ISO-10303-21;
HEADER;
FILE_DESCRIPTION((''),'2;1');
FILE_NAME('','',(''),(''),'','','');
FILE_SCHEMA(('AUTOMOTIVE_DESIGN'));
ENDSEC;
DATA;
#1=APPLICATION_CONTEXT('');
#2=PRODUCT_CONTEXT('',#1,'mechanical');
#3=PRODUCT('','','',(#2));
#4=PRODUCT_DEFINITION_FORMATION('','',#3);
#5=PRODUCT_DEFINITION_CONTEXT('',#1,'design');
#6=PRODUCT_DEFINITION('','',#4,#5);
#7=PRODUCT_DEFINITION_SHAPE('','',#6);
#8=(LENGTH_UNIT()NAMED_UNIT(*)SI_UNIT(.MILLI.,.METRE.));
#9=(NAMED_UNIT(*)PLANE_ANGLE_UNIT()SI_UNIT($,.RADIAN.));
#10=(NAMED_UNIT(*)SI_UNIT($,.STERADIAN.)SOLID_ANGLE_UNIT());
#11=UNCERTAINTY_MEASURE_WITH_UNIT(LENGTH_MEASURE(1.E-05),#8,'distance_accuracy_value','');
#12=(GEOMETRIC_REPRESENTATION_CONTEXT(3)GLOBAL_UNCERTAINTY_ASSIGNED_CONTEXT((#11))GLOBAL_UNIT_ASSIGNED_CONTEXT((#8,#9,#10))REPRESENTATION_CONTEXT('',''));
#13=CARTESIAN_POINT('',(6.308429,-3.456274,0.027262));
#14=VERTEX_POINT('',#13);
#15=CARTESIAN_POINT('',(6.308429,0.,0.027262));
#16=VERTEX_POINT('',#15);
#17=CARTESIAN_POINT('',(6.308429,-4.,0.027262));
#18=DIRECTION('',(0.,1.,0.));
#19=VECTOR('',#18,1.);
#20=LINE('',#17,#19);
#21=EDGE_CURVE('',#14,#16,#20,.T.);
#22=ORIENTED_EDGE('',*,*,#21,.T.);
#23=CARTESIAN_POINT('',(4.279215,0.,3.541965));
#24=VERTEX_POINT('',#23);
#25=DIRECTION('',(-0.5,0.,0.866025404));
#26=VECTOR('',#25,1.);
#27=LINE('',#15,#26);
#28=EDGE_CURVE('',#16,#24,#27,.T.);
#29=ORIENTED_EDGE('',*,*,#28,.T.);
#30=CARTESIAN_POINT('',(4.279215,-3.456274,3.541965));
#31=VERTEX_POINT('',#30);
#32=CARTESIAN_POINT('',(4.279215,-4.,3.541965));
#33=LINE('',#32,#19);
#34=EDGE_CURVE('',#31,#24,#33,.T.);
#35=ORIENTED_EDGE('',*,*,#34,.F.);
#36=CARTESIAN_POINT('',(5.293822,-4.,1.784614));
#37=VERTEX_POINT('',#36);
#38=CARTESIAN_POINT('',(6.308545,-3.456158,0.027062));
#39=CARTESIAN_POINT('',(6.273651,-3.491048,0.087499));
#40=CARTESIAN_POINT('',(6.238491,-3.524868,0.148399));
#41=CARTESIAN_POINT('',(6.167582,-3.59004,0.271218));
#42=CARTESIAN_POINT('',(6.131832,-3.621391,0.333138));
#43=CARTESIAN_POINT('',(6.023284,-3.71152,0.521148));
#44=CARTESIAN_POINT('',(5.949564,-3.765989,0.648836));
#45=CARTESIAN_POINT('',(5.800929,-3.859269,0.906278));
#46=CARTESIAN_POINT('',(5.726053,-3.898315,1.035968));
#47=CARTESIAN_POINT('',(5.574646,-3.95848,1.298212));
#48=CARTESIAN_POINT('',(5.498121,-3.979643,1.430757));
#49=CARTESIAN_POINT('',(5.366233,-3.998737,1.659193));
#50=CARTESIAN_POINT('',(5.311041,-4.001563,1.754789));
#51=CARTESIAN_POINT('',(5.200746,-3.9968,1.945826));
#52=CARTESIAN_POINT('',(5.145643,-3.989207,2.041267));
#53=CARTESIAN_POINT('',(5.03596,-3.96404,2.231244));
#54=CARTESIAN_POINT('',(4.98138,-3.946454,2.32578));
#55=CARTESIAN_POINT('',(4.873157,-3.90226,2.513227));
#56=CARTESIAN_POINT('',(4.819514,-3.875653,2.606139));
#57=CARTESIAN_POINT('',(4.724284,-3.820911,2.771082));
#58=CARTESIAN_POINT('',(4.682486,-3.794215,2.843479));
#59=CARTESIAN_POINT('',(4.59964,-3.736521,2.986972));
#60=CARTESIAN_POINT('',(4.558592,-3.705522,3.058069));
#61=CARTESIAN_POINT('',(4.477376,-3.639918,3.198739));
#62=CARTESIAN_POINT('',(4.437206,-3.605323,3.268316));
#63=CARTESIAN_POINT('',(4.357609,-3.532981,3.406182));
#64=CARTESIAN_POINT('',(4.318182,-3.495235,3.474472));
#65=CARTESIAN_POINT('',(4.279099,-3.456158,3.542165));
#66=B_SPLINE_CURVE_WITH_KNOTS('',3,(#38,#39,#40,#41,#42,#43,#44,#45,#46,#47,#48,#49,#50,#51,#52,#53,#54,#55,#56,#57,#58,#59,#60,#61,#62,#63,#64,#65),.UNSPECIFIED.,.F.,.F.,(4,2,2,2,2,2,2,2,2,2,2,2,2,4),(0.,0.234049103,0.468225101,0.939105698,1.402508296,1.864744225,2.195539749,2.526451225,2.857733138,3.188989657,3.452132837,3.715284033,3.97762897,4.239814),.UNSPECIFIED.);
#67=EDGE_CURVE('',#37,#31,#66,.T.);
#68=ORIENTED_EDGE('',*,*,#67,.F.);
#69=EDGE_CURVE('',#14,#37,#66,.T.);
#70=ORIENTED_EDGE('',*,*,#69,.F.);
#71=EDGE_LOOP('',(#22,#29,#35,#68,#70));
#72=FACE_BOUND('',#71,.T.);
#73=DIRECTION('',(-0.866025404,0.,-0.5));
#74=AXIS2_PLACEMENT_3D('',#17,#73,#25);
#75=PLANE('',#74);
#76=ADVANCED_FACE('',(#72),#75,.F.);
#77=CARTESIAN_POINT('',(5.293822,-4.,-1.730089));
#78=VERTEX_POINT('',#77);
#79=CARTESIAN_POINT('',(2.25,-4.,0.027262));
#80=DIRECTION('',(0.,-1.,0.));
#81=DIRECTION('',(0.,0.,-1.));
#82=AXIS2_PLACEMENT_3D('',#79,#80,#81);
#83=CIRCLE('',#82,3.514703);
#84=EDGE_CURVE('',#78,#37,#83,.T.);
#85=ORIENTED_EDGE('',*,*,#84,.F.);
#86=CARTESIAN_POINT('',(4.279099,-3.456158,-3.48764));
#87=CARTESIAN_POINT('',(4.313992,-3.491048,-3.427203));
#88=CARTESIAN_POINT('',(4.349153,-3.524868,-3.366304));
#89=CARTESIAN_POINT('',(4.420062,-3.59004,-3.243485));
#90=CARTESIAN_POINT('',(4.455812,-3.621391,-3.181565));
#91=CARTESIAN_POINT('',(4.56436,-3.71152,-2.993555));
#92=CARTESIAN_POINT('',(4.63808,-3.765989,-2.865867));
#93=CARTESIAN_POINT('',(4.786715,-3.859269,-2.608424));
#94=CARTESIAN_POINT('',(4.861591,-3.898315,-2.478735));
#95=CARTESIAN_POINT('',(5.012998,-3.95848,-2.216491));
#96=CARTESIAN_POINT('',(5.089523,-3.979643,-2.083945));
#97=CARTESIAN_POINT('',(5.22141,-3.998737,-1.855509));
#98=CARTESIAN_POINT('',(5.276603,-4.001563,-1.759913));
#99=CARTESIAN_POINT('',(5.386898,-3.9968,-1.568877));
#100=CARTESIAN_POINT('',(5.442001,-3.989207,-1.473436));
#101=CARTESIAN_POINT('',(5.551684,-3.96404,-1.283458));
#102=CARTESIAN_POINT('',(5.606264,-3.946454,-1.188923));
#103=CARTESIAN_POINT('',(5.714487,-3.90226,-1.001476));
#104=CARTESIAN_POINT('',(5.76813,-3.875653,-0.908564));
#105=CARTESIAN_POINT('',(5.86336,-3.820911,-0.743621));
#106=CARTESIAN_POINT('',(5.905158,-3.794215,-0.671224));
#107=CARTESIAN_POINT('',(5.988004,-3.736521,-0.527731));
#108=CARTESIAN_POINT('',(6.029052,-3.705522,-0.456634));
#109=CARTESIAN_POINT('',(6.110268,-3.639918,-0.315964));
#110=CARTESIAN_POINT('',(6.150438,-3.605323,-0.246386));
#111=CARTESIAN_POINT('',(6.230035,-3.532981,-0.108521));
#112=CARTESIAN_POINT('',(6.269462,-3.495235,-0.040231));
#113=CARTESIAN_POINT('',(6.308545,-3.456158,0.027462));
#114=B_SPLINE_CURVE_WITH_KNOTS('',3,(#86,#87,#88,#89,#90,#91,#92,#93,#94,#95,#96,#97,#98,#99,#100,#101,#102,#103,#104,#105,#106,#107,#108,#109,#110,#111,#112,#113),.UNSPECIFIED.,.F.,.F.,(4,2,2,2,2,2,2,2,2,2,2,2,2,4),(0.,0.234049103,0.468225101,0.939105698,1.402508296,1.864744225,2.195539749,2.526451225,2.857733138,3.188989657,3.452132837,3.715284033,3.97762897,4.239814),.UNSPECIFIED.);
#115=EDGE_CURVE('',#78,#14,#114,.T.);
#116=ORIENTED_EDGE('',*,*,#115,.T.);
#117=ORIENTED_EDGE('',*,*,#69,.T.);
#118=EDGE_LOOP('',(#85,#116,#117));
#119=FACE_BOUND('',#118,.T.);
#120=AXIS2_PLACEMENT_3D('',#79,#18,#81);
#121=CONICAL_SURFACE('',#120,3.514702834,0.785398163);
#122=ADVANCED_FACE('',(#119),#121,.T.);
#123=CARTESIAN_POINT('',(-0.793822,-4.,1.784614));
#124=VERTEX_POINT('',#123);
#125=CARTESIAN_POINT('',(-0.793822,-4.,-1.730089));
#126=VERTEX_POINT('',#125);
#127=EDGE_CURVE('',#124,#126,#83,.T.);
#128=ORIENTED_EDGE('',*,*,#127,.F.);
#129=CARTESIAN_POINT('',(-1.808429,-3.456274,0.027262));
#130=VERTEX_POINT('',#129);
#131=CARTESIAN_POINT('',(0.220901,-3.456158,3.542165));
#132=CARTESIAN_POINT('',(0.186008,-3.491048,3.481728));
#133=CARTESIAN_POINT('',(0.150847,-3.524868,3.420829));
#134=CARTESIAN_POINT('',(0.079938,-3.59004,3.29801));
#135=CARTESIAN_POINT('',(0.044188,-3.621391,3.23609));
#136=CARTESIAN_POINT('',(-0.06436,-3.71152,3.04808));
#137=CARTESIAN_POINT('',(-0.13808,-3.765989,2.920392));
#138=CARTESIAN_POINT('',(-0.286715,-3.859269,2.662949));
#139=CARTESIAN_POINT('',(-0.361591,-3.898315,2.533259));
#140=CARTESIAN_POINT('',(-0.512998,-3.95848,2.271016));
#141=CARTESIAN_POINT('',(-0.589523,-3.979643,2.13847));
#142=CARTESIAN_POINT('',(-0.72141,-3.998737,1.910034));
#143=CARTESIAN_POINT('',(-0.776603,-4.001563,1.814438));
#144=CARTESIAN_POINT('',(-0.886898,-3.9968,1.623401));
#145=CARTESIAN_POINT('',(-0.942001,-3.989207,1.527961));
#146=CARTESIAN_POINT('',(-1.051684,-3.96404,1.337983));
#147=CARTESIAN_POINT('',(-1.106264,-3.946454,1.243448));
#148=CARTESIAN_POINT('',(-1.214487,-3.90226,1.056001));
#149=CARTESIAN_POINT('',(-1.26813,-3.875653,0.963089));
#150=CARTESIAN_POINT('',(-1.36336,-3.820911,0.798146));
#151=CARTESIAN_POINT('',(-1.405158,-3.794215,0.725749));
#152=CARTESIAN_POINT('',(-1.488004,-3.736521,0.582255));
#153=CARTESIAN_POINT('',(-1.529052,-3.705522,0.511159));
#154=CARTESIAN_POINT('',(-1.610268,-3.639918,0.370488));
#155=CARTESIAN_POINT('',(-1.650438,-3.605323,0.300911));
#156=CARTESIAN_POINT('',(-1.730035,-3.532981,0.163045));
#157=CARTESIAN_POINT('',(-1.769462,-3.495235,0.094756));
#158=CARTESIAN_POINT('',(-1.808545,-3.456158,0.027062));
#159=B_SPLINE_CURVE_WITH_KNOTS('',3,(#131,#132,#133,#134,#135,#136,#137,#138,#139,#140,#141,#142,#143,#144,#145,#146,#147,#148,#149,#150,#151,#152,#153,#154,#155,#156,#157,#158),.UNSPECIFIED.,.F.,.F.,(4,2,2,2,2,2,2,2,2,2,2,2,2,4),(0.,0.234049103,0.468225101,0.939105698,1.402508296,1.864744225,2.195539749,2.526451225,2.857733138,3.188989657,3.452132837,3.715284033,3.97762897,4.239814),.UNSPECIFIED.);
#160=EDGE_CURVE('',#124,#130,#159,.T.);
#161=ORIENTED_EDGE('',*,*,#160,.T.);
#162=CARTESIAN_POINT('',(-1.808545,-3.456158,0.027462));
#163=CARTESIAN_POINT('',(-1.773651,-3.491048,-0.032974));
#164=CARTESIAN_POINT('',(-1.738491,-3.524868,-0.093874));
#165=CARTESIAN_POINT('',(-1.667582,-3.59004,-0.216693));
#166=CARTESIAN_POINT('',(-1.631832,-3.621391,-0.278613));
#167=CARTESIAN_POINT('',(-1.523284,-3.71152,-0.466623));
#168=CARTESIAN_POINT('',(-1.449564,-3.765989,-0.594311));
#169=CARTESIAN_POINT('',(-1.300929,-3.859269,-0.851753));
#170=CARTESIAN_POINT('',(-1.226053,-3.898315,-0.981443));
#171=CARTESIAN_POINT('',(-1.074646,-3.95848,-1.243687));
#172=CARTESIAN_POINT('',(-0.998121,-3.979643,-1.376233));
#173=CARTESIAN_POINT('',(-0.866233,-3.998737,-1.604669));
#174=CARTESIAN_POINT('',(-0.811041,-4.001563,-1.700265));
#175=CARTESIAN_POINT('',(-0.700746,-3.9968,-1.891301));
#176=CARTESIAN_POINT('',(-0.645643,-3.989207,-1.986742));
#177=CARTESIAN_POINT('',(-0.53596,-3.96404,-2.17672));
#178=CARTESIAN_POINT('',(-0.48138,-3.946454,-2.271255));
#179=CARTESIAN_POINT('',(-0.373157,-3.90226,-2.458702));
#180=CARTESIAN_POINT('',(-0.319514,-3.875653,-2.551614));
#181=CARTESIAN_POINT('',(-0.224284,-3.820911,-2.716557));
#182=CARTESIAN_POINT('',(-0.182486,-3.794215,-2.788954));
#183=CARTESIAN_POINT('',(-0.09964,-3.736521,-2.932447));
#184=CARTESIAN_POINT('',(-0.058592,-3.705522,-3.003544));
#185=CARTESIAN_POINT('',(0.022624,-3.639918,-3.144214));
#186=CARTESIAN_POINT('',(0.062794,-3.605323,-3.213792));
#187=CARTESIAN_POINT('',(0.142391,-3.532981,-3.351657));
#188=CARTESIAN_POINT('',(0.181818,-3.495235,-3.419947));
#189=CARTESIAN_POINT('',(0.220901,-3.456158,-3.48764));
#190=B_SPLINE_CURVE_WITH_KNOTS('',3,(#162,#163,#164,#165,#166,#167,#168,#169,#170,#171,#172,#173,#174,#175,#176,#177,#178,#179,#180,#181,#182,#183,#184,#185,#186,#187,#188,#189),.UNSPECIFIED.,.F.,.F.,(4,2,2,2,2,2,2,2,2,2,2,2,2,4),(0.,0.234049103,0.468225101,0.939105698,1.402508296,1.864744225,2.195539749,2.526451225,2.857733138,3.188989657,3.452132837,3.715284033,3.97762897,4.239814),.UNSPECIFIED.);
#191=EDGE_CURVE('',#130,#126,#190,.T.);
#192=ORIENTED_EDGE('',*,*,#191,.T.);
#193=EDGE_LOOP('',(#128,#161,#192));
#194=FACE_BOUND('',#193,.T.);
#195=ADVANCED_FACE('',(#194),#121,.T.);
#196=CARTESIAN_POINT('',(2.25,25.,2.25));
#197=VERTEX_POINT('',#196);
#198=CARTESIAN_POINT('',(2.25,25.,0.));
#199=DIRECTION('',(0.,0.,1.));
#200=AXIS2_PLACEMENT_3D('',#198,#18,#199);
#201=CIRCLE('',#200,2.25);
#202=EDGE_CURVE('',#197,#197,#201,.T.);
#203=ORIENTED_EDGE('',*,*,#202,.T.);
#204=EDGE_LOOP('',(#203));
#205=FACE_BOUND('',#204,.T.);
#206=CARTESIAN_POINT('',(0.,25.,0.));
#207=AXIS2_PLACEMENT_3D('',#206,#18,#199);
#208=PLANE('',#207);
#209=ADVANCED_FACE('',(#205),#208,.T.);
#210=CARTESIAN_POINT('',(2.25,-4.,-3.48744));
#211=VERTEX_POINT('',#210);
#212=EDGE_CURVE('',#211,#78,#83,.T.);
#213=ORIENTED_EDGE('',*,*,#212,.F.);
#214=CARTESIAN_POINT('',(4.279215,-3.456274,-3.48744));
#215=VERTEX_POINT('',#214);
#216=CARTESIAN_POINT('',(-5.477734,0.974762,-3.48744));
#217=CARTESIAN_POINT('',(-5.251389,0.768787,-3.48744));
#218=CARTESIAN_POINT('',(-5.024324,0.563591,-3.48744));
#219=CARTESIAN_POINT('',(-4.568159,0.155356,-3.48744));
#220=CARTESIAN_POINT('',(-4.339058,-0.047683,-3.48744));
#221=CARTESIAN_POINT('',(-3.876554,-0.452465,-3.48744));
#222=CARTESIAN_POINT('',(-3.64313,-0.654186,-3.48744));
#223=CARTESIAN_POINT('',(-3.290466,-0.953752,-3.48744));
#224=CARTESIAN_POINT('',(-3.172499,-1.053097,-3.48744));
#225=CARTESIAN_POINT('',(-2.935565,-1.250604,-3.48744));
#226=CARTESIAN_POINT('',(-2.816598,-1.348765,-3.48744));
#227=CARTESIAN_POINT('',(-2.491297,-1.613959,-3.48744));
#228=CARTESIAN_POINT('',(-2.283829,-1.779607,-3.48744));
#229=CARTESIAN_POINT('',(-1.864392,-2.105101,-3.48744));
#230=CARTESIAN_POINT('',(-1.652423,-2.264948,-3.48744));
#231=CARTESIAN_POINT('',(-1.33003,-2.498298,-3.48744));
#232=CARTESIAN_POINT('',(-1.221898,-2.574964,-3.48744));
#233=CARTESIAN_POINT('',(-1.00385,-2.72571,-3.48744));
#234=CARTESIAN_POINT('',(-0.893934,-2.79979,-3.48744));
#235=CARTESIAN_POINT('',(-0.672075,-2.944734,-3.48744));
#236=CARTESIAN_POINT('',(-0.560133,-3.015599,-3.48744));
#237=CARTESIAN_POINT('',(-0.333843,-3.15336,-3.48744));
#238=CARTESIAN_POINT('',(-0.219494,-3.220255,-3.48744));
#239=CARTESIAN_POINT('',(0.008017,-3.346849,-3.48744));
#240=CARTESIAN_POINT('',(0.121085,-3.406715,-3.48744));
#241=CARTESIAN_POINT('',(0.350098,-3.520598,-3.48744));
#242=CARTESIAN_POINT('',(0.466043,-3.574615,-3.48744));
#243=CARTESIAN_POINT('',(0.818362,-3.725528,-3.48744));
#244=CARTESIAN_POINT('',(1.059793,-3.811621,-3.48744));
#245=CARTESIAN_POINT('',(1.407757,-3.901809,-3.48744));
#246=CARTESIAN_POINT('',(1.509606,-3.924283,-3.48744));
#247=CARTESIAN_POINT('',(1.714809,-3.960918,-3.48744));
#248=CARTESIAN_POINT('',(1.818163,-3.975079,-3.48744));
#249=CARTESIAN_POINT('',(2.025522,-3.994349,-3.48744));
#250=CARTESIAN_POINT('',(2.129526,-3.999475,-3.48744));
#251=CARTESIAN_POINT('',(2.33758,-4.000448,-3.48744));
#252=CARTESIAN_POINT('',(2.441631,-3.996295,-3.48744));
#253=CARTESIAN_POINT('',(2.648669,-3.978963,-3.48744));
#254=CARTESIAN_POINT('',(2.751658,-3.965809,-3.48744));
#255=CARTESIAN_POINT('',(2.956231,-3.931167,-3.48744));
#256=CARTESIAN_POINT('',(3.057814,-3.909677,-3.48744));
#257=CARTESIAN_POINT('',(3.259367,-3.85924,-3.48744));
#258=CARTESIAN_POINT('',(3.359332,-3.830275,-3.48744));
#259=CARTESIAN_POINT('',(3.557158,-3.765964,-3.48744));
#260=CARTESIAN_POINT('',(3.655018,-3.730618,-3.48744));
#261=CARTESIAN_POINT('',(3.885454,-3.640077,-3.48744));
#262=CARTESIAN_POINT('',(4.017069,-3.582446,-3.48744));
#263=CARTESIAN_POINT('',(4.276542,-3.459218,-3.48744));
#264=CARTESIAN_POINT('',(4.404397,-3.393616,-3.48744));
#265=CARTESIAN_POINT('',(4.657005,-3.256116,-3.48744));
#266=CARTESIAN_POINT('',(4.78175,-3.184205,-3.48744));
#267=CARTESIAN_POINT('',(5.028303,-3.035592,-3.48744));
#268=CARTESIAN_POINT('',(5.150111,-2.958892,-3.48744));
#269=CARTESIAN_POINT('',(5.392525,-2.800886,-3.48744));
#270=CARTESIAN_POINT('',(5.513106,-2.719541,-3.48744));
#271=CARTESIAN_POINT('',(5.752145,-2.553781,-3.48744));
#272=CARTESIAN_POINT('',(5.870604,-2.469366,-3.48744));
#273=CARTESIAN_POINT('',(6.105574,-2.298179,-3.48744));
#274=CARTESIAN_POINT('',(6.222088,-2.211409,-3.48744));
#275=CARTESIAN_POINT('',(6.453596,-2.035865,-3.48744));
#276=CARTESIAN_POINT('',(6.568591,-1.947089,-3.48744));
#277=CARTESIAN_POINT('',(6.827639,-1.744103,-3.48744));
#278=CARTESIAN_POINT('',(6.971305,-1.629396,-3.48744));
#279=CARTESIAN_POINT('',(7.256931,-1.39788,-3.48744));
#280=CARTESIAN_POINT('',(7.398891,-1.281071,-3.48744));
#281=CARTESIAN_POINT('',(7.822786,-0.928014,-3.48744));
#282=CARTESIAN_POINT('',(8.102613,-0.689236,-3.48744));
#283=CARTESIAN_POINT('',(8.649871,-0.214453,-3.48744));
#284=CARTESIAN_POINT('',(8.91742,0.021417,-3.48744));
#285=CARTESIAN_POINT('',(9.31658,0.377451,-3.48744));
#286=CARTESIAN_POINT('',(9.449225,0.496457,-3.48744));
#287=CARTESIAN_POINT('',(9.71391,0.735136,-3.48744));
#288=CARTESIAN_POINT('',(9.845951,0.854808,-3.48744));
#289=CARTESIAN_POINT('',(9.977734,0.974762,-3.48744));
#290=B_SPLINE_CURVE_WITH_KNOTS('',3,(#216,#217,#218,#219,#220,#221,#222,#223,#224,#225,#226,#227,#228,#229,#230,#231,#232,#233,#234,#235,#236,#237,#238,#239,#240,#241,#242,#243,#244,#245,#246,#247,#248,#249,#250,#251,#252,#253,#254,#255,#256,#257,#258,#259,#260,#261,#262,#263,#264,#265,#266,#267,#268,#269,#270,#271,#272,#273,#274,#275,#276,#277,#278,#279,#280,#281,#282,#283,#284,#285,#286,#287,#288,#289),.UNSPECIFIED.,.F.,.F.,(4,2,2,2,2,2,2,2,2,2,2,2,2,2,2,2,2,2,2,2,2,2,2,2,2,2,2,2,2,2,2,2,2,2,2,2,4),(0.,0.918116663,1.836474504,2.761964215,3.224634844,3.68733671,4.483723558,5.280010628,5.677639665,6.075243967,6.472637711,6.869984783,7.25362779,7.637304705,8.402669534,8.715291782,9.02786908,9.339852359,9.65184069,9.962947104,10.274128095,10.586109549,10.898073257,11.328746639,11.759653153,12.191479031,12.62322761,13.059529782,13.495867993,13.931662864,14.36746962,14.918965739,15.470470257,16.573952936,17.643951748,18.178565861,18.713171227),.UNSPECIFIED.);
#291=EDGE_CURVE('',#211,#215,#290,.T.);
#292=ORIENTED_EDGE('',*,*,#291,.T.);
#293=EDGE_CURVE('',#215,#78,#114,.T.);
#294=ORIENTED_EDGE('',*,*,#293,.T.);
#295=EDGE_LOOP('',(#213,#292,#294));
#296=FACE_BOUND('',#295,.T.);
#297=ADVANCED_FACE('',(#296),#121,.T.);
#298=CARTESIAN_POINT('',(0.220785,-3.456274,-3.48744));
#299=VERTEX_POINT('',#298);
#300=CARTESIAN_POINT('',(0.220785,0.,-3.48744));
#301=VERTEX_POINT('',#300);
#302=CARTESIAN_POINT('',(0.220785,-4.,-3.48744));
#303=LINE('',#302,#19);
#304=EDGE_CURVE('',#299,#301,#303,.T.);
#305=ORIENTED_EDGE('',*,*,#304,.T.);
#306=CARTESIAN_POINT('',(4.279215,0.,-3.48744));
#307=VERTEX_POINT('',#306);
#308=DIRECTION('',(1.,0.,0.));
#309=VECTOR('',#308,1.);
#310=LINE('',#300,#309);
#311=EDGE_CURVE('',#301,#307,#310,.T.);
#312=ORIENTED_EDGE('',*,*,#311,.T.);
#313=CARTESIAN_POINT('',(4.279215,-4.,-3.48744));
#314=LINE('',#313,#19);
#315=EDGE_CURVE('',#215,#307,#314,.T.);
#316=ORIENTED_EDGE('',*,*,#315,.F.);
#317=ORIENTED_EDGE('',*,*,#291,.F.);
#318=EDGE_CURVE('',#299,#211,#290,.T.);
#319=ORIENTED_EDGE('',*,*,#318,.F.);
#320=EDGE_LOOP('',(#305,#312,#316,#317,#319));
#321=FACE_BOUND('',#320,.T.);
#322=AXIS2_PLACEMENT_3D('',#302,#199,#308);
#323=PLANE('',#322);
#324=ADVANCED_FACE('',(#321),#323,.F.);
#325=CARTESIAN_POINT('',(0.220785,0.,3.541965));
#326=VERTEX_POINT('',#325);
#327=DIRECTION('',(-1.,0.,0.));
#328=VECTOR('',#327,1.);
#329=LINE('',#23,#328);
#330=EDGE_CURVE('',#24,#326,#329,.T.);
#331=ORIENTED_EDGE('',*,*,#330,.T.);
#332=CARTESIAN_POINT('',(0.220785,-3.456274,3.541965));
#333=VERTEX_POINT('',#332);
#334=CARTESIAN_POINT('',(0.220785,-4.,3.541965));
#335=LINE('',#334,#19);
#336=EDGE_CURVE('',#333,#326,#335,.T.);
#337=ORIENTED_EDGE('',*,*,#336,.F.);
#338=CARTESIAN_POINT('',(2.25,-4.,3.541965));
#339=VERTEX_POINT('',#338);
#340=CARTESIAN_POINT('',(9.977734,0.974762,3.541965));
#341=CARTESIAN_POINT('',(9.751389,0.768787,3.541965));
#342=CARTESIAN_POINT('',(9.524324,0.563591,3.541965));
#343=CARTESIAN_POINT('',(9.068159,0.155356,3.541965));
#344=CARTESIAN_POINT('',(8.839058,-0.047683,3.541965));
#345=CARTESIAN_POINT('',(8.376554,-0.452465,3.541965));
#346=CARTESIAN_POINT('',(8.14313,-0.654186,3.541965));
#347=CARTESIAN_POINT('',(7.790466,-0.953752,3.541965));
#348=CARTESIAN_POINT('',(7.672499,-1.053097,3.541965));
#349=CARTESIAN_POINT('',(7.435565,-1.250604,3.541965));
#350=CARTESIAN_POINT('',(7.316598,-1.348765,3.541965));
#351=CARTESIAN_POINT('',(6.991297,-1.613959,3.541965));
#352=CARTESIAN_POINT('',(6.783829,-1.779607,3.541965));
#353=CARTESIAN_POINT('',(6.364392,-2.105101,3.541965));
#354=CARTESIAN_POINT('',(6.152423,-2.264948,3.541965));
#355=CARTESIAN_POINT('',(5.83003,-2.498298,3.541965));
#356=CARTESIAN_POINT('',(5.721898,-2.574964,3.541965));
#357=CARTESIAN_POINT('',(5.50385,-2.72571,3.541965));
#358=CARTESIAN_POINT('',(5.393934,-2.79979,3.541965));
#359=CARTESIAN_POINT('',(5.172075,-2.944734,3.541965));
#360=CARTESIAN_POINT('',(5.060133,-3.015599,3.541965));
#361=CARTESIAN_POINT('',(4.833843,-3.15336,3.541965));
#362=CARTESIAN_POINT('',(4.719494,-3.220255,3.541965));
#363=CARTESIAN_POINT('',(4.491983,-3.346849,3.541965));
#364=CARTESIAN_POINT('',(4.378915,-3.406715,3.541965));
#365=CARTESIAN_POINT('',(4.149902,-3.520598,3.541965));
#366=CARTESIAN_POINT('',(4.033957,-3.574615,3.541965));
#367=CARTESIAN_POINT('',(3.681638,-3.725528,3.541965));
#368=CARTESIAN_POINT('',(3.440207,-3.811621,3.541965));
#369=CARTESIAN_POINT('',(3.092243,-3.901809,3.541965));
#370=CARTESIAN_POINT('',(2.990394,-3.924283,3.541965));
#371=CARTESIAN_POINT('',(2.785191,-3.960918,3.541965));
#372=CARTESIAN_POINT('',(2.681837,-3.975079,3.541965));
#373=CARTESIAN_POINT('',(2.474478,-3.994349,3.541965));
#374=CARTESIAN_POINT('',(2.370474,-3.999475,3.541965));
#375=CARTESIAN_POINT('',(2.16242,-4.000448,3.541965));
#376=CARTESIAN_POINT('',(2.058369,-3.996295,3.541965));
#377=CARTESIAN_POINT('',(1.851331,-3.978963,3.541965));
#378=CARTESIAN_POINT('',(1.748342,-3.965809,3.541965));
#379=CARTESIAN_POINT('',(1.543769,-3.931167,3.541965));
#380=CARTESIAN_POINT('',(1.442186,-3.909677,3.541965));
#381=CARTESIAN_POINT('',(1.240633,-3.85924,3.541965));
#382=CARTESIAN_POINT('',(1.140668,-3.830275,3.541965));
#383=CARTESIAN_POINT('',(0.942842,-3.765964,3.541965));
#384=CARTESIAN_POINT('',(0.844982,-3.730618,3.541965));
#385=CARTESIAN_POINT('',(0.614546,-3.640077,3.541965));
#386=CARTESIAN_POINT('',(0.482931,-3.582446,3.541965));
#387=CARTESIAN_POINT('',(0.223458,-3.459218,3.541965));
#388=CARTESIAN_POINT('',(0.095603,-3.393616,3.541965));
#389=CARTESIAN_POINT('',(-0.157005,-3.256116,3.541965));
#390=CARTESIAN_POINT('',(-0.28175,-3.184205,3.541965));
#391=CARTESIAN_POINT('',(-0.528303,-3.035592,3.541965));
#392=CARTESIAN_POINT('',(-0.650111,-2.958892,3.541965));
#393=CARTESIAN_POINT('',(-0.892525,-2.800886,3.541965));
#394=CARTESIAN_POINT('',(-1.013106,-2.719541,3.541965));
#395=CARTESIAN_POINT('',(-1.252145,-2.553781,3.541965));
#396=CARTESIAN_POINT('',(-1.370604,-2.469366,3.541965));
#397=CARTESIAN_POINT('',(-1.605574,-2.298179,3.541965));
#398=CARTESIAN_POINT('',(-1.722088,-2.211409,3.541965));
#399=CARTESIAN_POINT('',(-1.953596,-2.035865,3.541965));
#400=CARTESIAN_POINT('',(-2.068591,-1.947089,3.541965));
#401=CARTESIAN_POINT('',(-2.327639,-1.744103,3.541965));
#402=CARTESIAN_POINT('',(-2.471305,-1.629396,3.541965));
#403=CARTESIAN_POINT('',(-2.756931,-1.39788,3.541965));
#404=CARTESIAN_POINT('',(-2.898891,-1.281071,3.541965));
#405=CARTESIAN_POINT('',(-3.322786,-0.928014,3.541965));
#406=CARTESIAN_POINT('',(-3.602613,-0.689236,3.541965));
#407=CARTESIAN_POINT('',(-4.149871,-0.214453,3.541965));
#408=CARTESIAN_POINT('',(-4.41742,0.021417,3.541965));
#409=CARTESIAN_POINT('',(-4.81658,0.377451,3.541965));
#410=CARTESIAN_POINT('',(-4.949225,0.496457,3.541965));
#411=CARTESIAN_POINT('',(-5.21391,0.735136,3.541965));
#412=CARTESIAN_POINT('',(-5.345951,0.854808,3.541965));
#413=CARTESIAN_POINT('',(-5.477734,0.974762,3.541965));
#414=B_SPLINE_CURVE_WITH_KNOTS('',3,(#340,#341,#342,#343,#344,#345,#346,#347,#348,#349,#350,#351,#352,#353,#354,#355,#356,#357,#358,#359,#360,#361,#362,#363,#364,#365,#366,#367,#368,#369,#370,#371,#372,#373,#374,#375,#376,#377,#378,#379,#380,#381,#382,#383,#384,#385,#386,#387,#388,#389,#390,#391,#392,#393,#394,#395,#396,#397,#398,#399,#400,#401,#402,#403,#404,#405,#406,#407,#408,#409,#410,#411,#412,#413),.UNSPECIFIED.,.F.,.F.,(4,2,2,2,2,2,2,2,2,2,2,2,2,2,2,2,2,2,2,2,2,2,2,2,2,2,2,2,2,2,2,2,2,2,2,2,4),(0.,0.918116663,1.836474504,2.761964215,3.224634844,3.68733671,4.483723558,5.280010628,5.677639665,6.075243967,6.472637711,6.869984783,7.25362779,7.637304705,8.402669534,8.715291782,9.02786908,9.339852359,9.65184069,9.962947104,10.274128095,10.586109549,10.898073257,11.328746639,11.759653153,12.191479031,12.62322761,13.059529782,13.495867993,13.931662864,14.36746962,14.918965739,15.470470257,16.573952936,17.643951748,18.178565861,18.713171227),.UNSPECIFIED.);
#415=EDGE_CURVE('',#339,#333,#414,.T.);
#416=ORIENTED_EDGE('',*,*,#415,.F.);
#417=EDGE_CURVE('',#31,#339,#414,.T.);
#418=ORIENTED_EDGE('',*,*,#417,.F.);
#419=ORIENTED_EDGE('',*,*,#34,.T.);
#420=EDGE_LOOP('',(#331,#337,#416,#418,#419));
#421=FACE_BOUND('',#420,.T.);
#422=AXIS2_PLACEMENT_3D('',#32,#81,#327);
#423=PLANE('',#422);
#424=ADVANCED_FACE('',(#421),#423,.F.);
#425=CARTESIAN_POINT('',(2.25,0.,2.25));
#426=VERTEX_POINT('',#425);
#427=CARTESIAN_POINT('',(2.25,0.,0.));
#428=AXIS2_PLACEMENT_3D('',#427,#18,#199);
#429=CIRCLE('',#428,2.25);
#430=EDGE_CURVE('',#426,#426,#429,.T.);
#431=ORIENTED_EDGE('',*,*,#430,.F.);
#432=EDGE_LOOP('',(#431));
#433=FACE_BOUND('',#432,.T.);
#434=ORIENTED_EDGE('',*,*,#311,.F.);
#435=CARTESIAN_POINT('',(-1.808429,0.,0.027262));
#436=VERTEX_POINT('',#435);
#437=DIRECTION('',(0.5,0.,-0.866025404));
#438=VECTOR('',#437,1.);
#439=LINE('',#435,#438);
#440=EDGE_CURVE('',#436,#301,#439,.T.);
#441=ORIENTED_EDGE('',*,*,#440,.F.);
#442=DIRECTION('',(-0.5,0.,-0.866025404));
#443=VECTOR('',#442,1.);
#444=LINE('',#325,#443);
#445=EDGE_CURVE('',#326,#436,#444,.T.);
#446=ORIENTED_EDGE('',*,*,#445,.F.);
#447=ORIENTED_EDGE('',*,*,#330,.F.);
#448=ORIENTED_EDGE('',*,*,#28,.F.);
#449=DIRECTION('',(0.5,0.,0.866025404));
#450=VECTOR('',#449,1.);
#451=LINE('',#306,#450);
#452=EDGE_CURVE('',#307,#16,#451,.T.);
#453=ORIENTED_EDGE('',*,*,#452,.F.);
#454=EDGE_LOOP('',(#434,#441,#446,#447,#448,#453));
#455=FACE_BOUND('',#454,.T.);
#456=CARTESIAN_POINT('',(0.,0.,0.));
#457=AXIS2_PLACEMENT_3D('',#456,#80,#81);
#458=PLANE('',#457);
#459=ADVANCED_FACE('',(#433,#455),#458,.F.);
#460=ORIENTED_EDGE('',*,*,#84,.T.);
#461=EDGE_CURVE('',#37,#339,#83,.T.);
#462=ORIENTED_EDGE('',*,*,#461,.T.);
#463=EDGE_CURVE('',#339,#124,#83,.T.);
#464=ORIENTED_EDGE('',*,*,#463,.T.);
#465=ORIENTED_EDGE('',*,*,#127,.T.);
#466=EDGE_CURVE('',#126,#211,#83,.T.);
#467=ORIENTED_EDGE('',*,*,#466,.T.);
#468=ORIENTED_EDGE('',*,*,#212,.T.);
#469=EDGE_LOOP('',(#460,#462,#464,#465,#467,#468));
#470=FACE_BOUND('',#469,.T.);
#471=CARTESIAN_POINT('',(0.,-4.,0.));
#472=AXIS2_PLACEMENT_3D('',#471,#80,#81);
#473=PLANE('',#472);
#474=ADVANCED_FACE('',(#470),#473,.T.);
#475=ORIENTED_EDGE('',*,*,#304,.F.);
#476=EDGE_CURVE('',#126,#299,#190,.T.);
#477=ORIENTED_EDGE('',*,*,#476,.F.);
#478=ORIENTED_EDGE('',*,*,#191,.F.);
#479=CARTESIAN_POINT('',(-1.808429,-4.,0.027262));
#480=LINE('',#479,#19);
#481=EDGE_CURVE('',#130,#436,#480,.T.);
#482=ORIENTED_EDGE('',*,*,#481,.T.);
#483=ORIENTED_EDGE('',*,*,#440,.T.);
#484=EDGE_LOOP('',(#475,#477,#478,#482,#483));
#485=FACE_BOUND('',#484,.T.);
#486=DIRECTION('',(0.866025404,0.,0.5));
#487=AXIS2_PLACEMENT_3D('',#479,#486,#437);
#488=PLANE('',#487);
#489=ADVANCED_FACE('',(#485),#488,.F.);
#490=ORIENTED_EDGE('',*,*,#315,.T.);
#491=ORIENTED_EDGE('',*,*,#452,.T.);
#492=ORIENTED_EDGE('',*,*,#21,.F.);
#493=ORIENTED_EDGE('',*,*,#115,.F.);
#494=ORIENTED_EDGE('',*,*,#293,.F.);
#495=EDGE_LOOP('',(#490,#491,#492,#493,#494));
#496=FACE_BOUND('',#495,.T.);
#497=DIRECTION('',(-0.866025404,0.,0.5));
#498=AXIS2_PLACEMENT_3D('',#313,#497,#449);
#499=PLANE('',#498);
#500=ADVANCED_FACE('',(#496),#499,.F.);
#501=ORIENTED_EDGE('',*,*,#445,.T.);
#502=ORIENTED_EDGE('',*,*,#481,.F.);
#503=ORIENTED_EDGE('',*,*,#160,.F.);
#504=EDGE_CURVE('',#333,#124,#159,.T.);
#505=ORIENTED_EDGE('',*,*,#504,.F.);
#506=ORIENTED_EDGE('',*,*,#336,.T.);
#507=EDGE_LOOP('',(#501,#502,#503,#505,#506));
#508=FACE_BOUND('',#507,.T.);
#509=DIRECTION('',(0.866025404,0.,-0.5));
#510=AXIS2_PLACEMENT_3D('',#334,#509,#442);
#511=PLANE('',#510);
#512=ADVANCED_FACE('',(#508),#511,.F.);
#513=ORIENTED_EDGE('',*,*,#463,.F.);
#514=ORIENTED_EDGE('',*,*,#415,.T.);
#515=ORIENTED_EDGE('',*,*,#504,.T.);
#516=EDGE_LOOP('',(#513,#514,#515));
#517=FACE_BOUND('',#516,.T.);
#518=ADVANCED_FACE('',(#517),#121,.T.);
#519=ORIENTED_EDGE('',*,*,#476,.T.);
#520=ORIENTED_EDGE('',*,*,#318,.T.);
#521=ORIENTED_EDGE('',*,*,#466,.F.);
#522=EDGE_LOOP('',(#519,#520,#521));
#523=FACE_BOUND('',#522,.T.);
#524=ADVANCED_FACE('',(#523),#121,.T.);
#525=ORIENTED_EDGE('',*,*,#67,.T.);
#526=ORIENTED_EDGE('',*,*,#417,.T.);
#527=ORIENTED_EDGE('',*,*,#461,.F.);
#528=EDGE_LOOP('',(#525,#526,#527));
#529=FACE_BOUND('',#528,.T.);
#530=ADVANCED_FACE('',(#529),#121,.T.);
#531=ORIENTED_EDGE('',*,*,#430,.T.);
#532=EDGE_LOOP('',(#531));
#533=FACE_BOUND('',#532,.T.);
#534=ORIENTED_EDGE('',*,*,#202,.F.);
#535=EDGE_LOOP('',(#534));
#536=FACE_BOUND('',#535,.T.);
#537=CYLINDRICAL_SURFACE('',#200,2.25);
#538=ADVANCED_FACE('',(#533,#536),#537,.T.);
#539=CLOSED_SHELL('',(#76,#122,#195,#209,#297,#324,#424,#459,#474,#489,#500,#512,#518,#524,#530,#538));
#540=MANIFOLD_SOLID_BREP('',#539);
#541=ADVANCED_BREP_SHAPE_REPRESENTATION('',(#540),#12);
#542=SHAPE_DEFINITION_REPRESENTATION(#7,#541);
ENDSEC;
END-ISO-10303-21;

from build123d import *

# Parameters (mm, degrees)
SKETCH2_W           = 2.25
SKETCH2_H           = 25
BOSS_EXTRUDE1_DEPTH = 4
SKETCH4_OUTSIDE_W   = 76.3
SKETCH4_OUTSIDE_H   = 75.213
SKETCH4_OUTSIDE_R   = 3.514702834
CUT_EXTRUDE1_DEPTH  = 30
CUT_EXTRUDE1_TAPER  = 45


with BuildPart() as part:
    # Sketch2 → Revolve1 (revolve)
    with BuildSketch(Plane.XY):
        with Locations((1.125, 12.5)):
            Rectangle(SKETCH2_W, SKETCH2_H)
    revolve(axis=Axis((2.25, 25, 0), (0, -1, 0)))

    # Sketch3 → Boss-Extrude1 (add)
    with BuildSketch(Plane.XZ):
        Polygon((6.308429255, 0.02726243), (4.279214628, 3.541965265), (0.220785372, 3.541965265), (-1.808429255, 0.02726243), (0.220785372, -3.487440404), (4.279214628, -3.487440404), align=None)
    extrude(amount=BOSS_EXTRUDE1_DEPTH)

    # Sketch4 outside → Cut-Extrude1 (cut, through all)
    with BuildSketch(Plane(origin=(0, -4, 0), x_dir=(-1, 0, 0), z_dir=(0, -1, 0))):
        with Locations((-2.25, -0.0275)):
            Rectangle(SKETCH4_OUTSIDE_W, SKETCH4_OUTSIDE_H)
        with Locations((-2.25, -0.02726243)):
            Circle(SKETCH4_OUTSIDE_R, mode=Mode.SUBTRACT)
    extrude(amount=-CUT_EXTRUDE1_DEPTH, taper=CUT_EXTRUDE1_TAPER, mode=Mode.SUBTRACT)


solid = part.part
